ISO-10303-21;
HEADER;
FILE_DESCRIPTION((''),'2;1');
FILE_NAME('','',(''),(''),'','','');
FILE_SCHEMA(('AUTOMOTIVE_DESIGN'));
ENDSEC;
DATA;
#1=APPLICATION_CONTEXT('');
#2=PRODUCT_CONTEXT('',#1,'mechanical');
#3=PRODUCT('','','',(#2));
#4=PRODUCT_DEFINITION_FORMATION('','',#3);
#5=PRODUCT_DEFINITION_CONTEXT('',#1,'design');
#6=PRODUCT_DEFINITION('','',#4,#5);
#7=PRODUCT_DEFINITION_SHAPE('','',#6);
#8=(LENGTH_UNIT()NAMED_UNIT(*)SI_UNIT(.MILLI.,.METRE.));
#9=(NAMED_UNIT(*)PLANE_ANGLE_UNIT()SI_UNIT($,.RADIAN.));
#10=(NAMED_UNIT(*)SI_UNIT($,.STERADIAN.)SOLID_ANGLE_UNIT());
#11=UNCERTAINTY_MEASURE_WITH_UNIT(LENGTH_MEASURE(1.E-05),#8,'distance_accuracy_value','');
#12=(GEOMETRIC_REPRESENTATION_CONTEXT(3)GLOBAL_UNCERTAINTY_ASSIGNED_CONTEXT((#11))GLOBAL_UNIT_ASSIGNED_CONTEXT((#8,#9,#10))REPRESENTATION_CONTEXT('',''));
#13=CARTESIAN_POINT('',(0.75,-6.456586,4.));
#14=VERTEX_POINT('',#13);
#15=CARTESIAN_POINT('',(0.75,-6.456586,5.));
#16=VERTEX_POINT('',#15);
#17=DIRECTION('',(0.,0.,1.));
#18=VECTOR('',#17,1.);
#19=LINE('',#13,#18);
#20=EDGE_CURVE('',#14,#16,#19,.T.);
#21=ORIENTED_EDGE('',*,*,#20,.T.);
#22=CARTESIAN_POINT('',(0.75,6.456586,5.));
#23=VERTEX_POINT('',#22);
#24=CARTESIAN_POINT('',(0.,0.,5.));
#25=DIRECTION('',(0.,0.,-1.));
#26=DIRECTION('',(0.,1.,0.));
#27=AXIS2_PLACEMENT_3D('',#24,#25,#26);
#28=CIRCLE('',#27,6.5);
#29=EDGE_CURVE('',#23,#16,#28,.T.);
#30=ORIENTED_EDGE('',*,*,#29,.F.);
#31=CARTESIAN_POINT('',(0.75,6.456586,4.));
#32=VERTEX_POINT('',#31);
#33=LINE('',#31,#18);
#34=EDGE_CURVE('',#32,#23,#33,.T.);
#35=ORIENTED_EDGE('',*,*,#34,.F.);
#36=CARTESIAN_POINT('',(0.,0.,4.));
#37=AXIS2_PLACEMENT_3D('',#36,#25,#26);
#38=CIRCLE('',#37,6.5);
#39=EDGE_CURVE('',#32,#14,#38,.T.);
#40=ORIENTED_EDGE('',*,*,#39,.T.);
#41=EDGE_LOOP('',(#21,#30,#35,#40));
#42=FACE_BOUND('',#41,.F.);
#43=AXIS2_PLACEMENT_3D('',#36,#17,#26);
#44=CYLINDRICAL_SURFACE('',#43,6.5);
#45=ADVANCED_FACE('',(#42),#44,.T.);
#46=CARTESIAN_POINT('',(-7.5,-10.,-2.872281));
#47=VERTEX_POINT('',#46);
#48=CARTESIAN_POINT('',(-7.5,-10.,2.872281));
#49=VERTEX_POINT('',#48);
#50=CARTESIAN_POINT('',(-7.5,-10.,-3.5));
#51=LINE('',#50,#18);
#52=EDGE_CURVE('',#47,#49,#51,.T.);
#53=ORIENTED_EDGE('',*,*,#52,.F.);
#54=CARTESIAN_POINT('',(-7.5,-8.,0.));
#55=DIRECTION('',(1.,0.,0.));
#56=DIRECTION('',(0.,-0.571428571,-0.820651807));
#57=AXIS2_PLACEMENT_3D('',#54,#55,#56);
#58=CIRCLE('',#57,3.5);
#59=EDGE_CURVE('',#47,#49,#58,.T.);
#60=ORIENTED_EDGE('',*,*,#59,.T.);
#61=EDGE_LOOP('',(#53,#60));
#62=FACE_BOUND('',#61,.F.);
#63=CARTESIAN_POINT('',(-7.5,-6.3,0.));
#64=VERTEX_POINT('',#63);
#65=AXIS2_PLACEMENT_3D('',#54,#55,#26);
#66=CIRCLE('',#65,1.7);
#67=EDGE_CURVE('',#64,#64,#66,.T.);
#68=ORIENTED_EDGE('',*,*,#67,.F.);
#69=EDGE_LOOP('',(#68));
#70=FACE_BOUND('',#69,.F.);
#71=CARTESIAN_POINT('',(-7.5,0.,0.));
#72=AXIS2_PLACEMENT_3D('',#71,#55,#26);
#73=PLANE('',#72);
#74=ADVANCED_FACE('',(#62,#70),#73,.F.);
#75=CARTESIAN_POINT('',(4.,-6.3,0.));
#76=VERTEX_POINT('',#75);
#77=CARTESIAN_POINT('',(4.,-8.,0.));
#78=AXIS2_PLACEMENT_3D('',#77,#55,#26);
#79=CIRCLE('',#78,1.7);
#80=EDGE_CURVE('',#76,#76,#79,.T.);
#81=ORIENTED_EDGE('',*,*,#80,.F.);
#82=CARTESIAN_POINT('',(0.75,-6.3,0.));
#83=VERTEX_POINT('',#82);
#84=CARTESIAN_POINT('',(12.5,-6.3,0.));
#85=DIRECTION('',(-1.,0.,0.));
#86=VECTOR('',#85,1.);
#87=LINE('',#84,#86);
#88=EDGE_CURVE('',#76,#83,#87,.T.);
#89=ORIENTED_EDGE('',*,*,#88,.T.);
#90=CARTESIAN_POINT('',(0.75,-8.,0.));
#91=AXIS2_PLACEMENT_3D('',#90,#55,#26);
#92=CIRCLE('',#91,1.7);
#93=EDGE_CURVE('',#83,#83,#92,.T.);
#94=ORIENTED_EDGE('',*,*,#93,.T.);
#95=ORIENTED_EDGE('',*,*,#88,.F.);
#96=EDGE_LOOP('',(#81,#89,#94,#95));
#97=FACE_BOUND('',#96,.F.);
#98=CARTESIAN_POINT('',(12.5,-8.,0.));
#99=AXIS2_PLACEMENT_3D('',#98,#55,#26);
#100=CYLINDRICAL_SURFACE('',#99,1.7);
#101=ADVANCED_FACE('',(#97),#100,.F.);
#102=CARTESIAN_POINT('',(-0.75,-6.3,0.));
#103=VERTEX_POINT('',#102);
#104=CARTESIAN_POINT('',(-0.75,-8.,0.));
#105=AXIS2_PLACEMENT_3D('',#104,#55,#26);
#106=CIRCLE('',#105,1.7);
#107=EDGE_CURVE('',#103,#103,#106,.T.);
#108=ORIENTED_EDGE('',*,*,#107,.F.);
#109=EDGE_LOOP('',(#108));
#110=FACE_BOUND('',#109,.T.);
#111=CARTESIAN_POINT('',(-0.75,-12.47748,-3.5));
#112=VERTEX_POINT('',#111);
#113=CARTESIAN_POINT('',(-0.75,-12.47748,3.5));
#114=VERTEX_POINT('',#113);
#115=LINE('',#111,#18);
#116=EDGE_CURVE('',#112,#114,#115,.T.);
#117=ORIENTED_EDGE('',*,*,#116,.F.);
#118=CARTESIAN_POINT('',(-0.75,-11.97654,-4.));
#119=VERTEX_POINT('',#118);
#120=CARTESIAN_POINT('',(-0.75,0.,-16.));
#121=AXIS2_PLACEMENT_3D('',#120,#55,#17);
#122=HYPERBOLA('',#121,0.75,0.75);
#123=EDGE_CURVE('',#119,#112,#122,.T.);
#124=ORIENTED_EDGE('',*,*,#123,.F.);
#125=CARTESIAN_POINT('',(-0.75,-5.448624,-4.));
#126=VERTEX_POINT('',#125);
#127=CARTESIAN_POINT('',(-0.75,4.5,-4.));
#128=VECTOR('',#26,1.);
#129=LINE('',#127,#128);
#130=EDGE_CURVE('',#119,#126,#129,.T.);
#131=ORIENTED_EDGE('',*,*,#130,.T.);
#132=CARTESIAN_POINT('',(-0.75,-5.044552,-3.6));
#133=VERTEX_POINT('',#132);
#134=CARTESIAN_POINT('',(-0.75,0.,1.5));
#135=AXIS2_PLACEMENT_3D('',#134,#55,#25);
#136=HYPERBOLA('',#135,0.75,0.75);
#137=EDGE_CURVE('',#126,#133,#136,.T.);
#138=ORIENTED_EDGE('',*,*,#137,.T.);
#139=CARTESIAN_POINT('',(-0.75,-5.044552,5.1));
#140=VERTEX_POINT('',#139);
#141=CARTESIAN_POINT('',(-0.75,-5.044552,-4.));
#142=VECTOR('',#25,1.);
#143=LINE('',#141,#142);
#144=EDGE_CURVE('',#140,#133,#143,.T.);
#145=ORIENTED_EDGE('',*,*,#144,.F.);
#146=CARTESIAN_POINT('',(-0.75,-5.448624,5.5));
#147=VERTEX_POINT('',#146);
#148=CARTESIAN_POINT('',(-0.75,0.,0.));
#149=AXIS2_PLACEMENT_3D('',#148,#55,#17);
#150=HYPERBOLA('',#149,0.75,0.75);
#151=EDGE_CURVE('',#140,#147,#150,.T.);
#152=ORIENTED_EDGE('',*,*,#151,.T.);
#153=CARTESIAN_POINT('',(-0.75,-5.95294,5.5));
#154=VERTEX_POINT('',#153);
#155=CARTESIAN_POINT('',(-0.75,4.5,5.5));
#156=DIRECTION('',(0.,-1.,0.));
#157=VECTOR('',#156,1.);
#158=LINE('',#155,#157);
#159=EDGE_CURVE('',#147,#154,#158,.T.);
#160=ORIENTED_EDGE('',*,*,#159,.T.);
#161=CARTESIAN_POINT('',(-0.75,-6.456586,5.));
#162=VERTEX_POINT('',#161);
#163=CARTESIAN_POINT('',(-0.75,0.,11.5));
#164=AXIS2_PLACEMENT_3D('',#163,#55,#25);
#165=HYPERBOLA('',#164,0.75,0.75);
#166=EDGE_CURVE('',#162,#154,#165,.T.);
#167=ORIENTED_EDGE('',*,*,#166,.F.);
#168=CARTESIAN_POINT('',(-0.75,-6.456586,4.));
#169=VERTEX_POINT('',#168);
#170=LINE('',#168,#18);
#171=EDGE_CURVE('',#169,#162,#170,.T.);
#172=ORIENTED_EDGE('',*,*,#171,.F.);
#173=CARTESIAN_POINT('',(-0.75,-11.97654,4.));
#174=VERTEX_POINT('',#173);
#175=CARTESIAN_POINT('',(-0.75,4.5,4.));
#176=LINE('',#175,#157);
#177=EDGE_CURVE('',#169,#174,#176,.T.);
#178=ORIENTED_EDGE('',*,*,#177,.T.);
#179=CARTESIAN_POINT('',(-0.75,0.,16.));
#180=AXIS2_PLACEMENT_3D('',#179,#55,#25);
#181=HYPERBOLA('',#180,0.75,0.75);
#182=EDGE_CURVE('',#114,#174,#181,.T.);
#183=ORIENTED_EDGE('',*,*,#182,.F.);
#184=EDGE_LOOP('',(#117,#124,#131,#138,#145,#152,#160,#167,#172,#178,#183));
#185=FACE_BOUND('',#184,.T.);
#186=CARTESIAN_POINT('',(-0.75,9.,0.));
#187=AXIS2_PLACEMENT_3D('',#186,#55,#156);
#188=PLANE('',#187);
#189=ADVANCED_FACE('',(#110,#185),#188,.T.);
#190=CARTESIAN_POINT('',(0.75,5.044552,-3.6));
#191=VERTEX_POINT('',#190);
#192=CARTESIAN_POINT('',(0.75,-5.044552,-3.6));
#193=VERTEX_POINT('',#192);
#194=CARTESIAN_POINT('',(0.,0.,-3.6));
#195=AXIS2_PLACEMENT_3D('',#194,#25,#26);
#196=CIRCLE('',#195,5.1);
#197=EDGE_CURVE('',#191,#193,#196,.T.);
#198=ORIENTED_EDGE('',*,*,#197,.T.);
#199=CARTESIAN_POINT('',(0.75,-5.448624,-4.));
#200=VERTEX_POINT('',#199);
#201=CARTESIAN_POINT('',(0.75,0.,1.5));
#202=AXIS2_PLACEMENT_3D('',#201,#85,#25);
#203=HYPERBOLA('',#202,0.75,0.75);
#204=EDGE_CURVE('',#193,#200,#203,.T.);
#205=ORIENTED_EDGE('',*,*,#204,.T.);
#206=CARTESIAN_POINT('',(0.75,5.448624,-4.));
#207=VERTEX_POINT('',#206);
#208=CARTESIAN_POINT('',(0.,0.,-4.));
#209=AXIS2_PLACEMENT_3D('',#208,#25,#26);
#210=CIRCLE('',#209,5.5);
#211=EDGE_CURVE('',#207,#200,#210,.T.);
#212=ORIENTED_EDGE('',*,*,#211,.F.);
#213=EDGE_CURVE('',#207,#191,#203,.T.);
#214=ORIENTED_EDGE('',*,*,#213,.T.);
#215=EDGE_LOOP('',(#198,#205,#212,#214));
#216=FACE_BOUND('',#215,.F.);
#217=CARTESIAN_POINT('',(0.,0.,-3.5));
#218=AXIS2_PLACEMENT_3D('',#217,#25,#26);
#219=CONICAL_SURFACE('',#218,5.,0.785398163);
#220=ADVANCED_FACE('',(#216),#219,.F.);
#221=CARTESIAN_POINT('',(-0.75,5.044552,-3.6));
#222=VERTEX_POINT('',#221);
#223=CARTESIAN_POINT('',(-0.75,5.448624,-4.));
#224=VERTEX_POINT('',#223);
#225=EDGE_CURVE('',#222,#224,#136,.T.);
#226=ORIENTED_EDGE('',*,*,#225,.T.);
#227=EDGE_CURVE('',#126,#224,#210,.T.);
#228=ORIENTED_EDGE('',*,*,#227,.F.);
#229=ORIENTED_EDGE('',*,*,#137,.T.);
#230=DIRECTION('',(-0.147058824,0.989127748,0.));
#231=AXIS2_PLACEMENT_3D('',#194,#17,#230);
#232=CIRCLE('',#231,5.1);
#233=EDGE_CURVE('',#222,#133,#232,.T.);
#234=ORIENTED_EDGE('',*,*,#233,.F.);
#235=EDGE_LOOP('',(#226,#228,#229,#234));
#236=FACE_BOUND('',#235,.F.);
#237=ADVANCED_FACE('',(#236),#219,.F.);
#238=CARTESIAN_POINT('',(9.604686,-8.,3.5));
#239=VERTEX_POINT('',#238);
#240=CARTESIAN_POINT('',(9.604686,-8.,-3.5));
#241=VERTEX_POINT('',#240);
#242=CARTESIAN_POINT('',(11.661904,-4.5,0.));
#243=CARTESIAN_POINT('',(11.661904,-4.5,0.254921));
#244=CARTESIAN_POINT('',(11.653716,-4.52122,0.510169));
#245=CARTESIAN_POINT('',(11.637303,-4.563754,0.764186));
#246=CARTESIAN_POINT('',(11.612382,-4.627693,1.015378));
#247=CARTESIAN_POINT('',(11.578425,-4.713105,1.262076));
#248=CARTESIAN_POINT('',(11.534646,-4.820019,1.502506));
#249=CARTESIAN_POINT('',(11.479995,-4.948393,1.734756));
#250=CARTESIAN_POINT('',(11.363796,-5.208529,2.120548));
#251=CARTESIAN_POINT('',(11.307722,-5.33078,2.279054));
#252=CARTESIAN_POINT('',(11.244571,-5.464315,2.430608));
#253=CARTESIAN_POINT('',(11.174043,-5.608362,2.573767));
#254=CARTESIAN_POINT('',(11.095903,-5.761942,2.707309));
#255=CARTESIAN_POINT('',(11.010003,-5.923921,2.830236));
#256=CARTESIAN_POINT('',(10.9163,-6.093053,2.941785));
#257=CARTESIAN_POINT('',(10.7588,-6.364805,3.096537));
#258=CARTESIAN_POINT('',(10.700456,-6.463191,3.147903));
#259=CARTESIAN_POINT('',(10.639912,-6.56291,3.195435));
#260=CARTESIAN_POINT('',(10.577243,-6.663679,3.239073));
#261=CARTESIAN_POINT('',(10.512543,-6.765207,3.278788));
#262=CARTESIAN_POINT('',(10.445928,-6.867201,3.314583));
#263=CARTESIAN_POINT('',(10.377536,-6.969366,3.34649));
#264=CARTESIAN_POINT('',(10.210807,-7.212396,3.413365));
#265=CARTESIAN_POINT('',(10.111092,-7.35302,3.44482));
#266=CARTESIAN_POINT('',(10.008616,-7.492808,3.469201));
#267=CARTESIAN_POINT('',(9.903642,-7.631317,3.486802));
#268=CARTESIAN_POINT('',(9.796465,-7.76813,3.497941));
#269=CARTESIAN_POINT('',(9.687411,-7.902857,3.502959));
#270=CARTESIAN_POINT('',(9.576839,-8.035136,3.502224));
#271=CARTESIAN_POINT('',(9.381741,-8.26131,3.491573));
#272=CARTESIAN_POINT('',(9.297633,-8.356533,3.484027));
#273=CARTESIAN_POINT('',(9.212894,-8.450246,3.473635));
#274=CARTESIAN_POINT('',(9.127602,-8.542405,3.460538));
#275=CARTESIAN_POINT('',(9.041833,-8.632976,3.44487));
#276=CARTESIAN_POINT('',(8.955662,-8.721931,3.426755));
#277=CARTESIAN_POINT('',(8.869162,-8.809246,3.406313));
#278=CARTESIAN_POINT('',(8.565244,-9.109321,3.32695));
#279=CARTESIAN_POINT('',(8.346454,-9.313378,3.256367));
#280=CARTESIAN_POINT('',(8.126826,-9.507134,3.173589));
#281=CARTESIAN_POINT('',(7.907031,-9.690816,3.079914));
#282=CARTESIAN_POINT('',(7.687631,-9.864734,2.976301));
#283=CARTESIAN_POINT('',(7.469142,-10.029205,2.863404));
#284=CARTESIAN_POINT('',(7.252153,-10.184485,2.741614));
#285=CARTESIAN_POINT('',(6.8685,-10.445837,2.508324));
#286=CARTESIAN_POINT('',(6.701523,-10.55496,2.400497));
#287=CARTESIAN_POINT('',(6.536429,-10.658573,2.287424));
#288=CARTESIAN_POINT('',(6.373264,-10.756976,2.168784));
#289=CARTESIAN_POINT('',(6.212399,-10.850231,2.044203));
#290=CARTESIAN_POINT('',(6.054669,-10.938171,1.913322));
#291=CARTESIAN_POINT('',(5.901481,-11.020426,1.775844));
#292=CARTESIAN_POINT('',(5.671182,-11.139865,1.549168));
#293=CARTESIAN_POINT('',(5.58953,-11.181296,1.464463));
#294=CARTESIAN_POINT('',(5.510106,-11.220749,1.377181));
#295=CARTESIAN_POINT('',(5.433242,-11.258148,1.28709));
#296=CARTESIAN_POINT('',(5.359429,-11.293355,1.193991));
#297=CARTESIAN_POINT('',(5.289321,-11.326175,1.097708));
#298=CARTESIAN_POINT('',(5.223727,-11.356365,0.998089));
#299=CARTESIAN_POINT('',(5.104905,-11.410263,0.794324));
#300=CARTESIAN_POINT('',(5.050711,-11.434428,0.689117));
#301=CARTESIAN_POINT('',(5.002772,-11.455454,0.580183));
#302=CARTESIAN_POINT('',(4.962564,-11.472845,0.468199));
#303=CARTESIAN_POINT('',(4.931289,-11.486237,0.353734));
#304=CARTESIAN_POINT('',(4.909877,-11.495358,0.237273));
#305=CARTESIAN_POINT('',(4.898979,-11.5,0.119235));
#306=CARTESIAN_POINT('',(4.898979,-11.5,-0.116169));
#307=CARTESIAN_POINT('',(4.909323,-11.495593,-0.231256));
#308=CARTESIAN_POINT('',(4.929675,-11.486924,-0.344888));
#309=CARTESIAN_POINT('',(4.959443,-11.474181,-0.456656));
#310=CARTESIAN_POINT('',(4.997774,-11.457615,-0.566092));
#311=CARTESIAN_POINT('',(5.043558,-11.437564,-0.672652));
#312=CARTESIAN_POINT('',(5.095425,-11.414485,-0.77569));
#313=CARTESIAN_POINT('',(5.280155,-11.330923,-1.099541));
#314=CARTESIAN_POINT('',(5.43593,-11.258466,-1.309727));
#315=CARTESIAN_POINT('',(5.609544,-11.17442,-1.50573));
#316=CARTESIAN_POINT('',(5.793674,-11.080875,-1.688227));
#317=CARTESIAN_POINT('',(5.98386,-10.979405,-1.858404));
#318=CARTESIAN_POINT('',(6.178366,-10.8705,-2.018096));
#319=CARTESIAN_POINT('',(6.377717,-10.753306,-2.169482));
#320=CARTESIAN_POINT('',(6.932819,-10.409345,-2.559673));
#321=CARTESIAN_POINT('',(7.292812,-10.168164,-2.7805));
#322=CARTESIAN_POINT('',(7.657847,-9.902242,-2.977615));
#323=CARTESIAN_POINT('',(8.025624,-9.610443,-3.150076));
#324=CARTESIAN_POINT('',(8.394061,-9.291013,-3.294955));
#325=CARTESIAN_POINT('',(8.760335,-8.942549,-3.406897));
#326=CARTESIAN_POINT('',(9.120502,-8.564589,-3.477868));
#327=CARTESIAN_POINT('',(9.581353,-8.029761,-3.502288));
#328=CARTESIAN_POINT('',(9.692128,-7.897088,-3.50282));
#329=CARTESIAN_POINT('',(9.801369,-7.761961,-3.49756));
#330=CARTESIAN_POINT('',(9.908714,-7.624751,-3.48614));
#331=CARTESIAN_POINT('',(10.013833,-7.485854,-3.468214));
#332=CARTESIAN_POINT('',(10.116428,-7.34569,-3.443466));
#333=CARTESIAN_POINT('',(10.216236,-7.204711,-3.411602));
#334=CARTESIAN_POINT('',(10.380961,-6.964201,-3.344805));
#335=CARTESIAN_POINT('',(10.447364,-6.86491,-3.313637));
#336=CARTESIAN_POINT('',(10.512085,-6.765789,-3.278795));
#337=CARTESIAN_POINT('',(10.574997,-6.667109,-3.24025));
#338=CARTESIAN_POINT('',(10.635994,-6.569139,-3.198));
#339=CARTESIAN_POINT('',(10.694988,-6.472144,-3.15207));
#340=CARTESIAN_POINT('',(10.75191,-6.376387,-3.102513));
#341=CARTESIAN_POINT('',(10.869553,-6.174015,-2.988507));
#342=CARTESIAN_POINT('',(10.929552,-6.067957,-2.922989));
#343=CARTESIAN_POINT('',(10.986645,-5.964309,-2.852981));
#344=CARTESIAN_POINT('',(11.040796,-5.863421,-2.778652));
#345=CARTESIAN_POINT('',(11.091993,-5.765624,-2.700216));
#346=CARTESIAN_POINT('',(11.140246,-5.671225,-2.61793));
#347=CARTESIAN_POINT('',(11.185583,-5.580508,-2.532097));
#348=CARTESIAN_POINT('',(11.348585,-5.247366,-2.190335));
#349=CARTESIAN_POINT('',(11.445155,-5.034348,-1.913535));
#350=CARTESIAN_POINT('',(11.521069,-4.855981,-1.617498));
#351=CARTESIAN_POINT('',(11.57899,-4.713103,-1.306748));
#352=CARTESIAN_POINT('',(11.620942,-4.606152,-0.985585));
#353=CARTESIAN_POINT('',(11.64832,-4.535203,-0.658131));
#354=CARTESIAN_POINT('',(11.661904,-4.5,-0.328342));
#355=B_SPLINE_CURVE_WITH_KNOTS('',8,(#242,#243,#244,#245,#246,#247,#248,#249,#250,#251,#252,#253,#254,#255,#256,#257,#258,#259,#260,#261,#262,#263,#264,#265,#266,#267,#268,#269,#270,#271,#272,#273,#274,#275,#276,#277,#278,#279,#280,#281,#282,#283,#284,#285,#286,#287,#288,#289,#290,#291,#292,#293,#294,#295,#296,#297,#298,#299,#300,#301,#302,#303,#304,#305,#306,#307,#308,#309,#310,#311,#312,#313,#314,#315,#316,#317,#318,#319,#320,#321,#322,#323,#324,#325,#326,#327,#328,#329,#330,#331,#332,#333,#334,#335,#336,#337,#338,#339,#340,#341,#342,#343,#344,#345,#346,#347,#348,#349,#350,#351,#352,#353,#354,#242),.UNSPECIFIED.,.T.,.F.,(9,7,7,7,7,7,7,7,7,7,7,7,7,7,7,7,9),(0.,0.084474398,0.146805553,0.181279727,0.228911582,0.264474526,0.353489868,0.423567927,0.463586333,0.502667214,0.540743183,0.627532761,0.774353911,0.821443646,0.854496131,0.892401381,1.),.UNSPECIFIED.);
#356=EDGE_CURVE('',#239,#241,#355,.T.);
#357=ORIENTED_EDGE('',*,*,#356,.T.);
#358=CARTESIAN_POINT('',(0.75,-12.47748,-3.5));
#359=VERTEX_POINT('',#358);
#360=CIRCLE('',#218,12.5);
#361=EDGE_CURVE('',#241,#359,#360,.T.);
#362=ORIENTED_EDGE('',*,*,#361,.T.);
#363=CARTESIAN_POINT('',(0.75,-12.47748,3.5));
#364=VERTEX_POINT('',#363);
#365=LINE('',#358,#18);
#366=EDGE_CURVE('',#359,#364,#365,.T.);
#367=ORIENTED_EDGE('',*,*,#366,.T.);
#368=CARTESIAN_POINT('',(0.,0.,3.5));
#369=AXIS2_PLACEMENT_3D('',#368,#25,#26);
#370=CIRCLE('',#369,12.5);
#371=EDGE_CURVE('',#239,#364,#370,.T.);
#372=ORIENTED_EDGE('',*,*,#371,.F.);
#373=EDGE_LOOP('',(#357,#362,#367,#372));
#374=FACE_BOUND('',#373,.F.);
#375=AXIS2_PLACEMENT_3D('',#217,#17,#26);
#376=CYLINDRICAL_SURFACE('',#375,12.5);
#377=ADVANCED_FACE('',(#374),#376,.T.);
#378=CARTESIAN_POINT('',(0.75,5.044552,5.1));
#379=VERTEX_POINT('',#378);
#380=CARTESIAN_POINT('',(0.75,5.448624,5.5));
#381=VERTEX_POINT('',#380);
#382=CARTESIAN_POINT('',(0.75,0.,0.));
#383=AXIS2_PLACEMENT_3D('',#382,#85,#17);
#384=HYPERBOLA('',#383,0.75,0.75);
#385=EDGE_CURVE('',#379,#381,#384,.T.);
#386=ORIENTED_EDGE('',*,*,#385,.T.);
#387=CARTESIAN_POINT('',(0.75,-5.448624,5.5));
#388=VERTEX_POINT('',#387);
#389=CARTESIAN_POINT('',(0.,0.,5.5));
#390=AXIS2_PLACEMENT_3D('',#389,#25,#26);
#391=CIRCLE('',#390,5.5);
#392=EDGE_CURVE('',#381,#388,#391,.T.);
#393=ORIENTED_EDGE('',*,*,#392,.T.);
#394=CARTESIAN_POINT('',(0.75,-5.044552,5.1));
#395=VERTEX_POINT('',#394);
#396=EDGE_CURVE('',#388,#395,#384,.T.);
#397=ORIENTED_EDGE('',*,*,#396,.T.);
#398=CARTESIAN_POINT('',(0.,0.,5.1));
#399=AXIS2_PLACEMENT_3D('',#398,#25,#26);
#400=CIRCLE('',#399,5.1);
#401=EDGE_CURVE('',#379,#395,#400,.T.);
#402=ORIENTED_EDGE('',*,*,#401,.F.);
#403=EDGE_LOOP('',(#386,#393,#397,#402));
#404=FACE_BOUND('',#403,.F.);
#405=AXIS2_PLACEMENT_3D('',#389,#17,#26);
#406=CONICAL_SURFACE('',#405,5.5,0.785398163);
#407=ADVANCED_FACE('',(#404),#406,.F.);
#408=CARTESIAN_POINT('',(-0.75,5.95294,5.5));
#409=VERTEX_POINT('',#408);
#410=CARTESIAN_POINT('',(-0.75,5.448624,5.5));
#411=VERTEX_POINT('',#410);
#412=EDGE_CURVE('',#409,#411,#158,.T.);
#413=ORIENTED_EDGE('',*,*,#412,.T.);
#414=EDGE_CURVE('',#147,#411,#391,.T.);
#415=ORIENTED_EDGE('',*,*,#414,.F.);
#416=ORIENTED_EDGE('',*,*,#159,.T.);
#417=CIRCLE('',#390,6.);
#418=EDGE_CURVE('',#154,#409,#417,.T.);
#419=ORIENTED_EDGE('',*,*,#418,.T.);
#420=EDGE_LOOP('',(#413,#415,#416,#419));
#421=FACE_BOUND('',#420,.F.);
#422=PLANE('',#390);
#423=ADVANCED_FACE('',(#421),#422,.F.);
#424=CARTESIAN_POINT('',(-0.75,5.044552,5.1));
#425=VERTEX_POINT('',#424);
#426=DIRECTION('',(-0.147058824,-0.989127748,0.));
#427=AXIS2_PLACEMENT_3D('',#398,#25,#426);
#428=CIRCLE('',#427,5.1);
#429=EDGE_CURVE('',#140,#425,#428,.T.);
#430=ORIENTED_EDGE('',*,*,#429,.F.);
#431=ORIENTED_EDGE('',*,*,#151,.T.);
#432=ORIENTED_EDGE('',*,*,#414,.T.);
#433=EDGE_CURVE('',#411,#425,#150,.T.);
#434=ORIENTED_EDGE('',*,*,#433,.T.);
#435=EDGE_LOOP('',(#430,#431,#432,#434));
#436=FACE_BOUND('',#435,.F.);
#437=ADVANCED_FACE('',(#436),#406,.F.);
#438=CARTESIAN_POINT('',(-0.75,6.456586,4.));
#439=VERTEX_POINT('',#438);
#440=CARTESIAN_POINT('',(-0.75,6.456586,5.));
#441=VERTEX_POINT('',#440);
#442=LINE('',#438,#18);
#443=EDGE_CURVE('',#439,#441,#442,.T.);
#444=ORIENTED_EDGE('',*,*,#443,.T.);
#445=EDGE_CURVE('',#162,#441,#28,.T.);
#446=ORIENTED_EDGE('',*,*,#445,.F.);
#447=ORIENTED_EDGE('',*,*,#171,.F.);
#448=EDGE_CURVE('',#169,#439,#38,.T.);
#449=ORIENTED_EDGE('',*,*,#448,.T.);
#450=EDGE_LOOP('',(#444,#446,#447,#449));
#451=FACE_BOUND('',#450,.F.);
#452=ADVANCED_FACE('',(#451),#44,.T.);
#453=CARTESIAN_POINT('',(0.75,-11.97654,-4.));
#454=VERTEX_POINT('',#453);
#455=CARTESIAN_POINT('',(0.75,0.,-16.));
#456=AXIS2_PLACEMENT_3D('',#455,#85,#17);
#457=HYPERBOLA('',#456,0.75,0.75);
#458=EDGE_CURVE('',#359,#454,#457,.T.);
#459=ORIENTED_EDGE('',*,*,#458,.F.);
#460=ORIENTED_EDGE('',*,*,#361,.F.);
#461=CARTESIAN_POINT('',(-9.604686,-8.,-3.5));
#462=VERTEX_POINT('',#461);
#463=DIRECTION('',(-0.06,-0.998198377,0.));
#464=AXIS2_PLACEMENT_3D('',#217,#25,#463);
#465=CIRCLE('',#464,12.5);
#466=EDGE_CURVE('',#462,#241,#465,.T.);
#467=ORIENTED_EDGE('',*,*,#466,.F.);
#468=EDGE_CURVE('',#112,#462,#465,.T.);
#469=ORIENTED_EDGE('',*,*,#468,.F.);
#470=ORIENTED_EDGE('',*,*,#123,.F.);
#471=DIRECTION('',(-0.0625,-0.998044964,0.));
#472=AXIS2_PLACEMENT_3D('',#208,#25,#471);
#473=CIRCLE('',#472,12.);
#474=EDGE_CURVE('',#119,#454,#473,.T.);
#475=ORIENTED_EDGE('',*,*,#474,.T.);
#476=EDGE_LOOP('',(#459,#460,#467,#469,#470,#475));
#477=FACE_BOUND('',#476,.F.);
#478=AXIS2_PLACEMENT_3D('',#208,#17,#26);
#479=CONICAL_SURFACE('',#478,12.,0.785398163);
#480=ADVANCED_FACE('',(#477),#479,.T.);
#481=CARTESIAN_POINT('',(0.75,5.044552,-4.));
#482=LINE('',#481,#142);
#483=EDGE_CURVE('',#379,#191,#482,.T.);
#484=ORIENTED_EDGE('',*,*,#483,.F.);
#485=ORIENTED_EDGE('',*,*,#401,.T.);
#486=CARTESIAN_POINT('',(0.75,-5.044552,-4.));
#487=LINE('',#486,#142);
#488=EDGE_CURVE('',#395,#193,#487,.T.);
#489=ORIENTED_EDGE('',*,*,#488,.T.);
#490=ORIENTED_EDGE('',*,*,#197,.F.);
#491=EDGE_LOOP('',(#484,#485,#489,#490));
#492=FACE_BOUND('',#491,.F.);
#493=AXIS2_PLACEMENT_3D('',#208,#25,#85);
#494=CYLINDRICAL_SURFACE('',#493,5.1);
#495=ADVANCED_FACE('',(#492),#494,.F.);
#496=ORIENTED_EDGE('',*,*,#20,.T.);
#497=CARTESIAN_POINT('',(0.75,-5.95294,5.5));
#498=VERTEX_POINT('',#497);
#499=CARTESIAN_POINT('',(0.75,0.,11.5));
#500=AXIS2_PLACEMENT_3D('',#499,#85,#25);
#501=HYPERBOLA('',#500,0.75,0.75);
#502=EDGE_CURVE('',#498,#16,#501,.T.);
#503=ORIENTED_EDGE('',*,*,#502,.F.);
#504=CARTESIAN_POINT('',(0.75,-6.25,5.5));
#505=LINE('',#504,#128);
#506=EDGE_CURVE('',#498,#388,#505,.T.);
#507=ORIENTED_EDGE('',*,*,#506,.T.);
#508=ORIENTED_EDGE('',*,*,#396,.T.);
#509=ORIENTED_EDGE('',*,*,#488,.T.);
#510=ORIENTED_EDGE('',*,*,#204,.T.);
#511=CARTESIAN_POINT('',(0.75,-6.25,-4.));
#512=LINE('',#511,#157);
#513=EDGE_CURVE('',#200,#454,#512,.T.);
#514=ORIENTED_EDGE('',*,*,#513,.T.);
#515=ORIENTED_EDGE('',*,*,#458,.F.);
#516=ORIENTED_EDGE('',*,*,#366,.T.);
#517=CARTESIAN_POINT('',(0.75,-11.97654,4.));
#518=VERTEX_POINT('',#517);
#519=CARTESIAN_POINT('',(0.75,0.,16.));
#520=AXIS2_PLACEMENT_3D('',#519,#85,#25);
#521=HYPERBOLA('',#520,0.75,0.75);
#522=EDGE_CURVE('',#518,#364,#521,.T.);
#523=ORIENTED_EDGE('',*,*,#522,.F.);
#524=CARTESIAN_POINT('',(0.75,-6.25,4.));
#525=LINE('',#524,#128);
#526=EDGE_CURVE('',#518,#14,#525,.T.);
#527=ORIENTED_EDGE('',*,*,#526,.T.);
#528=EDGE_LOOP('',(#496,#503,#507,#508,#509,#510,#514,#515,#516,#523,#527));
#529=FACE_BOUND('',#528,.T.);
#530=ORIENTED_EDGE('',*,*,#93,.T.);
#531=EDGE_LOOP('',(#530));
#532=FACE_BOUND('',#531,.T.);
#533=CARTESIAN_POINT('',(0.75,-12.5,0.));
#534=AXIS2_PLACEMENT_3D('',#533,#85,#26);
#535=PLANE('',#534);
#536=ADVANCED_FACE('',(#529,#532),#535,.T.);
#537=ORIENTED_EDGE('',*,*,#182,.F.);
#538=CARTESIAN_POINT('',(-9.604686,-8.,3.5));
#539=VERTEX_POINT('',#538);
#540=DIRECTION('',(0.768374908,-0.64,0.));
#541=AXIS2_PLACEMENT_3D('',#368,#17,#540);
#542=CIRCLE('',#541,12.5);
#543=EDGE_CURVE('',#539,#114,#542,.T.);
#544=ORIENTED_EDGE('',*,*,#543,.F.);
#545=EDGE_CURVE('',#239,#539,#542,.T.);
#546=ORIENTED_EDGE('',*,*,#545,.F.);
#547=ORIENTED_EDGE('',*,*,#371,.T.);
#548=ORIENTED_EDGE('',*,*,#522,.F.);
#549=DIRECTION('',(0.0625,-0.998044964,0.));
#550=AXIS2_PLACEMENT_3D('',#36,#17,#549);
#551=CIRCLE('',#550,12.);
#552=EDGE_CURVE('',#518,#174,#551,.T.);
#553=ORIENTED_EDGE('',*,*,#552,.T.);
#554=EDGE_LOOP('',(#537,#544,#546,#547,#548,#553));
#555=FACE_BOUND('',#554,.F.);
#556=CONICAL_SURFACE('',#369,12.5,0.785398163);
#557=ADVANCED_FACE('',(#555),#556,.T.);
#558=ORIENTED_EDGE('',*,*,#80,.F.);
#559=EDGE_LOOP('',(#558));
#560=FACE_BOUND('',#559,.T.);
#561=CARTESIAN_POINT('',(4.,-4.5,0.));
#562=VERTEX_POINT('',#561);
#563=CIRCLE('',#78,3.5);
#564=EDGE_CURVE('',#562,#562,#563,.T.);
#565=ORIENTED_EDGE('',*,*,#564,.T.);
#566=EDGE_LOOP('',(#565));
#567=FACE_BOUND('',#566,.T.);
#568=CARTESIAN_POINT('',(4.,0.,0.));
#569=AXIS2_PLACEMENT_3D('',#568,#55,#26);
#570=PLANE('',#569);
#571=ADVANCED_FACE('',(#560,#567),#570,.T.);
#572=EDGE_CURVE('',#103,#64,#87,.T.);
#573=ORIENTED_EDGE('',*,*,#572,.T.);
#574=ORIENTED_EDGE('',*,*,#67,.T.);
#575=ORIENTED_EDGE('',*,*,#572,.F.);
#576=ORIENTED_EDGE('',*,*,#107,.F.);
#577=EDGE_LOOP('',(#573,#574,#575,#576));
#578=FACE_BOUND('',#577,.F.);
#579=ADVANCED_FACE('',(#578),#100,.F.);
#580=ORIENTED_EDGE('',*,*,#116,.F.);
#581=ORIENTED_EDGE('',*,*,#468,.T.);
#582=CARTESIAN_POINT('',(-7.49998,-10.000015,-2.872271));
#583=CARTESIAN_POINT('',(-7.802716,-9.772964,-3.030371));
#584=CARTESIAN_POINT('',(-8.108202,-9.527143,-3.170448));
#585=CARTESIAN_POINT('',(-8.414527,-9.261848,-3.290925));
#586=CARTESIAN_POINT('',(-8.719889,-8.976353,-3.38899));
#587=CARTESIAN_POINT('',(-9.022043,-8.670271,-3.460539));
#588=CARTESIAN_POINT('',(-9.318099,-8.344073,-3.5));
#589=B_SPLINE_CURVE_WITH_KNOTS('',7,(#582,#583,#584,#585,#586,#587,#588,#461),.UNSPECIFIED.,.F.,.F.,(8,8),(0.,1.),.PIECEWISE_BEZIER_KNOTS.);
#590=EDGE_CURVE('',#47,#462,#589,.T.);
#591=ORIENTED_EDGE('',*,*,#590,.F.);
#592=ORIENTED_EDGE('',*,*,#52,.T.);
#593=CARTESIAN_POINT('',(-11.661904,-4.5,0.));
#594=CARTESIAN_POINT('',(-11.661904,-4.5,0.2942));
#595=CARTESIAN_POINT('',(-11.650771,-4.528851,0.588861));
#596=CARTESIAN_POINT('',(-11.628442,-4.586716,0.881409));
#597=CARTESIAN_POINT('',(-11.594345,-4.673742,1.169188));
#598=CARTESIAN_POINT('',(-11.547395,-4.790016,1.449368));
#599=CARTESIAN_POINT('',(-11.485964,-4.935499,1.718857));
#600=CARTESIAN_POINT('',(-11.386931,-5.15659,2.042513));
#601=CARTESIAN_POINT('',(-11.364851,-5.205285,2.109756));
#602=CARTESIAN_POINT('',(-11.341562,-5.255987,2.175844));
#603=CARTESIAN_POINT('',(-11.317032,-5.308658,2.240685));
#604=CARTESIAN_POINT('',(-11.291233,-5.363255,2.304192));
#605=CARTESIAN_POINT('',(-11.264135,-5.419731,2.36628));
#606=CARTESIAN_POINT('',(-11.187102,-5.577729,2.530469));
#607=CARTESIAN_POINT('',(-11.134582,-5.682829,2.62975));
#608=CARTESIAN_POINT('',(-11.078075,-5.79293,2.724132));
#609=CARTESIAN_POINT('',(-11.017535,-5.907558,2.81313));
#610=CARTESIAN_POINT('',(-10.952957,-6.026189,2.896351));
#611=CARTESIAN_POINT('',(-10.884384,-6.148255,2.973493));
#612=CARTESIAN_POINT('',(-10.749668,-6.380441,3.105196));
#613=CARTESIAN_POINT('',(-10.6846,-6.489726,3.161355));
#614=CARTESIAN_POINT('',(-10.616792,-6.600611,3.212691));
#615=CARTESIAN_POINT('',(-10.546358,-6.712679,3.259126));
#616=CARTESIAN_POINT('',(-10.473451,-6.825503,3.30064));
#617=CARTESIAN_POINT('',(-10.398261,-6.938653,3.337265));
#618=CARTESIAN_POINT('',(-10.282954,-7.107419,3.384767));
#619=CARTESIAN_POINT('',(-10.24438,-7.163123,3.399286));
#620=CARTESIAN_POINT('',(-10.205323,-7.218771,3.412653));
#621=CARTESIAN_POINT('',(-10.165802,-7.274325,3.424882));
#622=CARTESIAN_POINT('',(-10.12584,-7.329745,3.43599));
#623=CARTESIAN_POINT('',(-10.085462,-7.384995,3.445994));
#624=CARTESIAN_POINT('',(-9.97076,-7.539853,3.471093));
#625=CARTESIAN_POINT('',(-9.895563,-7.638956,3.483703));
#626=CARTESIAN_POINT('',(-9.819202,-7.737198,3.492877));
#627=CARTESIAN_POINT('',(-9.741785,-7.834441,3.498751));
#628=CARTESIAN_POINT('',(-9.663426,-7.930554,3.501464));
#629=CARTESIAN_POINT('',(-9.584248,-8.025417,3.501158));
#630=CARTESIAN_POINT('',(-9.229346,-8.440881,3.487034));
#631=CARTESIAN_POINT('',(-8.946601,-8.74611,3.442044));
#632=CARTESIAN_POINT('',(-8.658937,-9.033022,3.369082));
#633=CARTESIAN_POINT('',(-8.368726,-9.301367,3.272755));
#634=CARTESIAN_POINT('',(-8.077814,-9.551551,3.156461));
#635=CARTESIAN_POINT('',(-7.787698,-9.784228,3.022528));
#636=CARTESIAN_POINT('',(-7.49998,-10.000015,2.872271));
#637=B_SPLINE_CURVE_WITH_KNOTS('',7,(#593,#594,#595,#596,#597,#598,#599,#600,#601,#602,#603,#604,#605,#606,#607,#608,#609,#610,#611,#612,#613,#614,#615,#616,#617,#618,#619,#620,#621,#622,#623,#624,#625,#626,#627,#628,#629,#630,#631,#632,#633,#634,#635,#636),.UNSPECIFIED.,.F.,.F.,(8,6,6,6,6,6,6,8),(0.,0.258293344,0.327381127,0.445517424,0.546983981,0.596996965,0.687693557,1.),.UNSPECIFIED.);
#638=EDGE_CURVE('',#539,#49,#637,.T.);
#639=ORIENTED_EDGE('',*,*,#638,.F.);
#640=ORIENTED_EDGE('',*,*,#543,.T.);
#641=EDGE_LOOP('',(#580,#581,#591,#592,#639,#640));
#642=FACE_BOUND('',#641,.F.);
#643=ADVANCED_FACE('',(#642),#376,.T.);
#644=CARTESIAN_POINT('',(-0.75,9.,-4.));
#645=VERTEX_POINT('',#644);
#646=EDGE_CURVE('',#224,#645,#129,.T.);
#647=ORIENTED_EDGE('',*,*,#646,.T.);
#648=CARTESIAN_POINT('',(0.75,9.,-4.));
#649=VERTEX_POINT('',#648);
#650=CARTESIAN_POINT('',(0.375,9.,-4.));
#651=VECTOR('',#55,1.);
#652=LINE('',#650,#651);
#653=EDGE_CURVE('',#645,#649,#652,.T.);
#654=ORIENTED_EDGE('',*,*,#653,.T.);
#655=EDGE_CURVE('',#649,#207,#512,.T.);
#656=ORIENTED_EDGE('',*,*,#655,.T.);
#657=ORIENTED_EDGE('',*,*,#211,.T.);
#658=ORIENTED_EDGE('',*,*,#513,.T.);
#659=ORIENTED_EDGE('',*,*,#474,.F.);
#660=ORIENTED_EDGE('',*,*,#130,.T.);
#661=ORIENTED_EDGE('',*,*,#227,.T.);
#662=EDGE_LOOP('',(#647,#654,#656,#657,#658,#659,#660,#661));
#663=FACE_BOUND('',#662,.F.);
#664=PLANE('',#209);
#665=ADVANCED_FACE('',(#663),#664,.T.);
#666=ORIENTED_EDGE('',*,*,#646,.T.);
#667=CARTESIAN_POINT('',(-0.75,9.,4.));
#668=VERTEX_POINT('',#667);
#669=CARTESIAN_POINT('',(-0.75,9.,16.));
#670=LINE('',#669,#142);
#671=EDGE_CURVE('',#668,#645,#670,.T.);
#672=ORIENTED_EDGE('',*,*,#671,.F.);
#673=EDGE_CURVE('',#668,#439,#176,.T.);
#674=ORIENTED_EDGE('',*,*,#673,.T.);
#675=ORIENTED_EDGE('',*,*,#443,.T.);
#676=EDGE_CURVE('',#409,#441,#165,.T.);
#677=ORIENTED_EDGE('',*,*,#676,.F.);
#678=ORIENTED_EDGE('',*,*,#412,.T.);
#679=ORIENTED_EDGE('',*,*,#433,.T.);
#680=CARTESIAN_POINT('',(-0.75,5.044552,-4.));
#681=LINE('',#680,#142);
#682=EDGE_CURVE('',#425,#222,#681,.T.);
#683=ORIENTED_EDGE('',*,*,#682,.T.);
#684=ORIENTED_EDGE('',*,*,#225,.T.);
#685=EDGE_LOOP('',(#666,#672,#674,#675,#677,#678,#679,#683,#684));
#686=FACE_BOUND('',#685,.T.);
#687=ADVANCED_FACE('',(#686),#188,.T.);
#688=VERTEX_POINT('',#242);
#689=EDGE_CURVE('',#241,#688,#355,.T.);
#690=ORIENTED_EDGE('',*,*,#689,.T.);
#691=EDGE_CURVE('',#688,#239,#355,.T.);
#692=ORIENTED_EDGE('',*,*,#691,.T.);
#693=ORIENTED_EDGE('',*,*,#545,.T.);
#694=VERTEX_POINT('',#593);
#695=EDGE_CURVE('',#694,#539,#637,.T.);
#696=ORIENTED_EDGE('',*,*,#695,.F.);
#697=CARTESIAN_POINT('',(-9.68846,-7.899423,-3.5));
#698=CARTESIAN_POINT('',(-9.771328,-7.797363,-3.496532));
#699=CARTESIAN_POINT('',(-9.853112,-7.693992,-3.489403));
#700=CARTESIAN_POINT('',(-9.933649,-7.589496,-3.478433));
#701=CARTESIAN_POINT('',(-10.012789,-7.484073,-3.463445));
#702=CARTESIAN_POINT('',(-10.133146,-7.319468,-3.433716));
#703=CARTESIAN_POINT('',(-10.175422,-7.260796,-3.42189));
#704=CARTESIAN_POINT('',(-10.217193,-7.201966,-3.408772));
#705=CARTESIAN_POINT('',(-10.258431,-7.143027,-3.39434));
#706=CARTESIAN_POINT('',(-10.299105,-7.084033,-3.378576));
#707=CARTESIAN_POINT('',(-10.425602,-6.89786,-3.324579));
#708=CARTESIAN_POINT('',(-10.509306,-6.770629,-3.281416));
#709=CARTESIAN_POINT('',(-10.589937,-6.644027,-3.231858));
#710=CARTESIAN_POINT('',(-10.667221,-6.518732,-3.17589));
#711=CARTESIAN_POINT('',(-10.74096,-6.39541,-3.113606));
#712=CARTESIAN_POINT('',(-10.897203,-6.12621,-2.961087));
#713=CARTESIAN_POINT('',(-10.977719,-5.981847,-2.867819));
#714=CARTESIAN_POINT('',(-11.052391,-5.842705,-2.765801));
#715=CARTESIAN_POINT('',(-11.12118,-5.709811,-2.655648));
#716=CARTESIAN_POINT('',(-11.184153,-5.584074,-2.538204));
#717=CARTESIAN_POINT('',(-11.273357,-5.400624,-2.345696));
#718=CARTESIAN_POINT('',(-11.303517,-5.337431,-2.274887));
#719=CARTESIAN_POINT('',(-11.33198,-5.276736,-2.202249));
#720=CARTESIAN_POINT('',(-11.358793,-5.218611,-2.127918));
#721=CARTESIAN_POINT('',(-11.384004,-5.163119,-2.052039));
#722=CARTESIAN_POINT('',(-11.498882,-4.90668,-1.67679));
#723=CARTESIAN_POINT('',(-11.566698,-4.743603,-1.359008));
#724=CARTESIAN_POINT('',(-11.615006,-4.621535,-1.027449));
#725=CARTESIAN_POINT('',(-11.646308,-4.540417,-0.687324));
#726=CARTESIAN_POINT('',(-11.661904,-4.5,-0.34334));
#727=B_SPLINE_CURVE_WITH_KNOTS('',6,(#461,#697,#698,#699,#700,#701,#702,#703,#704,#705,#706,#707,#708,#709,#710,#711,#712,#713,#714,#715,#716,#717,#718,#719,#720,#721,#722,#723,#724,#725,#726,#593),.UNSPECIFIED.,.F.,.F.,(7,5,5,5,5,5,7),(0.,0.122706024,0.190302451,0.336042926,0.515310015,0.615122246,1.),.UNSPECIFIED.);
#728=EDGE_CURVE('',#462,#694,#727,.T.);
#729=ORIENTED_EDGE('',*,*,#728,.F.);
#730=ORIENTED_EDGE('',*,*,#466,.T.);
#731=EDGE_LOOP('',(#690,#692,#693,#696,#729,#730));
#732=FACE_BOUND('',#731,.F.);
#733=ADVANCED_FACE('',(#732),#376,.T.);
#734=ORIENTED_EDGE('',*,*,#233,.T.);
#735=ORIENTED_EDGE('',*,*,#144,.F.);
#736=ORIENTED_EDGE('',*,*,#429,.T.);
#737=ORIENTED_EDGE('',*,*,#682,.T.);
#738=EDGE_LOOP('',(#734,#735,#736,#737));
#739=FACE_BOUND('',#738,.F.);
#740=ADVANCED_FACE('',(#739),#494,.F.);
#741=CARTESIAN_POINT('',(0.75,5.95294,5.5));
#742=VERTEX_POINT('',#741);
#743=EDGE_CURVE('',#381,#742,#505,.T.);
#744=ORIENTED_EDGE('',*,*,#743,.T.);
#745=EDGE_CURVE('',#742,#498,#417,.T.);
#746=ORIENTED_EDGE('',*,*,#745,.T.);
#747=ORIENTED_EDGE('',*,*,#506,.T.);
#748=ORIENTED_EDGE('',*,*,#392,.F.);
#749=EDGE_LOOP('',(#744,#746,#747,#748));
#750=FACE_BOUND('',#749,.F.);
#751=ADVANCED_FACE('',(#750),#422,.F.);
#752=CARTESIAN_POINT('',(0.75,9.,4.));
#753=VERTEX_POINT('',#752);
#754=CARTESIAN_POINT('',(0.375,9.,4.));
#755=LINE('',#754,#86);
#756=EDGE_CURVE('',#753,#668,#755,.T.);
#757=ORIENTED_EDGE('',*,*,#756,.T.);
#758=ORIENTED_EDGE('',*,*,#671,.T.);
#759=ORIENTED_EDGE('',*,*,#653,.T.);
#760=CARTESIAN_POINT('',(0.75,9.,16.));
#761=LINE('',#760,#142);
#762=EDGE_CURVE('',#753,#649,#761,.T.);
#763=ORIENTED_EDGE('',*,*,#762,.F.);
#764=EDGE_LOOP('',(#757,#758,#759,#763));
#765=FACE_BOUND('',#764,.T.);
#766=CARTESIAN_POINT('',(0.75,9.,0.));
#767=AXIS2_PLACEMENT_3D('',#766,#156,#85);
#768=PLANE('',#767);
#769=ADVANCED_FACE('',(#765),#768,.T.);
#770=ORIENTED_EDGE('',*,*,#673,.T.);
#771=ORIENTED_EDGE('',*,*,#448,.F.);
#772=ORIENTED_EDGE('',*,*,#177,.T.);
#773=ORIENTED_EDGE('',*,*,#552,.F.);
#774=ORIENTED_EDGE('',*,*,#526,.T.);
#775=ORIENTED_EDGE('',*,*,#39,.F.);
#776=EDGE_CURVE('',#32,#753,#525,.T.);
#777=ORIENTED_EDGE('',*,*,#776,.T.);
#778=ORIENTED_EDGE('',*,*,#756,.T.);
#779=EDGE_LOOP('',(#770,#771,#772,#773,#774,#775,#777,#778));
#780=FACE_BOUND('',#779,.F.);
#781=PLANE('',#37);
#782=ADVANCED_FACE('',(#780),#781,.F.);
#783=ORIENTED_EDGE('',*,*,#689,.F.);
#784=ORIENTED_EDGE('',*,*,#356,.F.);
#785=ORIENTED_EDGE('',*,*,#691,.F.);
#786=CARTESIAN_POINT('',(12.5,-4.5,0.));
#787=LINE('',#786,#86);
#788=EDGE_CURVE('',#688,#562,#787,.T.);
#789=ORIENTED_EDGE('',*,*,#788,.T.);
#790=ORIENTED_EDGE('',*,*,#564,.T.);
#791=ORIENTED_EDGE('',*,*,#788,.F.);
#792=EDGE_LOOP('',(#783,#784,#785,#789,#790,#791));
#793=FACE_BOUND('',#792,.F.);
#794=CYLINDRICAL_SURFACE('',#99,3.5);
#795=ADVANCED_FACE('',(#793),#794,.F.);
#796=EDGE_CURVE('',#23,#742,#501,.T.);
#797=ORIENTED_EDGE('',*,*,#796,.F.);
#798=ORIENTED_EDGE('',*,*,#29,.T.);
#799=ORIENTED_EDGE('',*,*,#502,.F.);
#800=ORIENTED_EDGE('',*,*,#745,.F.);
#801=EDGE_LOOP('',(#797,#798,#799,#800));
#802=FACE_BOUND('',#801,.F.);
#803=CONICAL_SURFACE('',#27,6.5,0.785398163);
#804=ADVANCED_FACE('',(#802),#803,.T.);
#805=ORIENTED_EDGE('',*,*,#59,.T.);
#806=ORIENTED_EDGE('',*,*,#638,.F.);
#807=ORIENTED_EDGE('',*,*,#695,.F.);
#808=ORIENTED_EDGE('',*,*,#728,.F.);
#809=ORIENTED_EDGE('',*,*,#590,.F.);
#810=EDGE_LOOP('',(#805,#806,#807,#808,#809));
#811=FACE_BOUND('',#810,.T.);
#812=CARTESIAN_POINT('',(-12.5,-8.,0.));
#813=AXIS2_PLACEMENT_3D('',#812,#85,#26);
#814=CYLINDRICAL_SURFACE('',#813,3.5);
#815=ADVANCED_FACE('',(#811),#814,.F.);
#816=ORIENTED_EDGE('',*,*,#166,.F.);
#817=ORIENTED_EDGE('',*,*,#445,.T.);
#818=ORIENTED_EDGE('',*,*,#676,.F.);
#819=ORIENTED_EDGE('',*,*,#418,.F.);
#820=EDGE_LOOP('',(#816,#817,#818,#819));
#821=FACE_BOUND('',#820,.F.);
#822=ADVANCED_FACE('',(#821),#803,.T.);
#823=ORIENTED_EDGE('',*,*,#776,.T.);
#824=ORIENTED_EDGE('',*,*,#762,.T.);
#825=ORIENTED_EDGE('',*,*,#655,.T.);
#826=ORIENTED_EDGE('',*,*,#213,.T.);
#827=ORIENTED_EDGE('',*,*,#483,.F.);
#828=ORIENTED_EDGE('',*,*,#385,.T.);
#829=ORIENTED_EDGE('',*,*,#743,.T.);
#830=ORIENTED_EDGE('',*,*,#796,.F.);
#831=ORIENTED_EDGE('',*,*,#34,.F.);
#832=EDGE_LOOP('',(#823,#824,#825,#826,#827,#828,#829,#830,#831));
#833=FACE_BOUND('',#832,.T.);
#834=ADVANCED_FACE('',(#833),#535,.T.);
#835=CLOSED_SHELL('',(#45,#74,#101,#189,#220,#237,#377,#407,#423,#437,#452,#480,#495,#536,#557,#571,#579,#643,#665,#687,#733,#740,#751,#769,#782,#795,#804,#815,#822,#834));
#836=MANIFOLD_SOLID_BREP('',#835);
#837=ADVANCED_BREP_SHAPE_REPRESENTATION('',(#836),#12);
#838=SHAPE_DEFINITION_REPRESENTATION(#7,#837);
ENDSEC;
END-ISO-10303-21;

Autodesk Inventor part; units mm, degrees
sketch "Sketch_1" plane through (0, 0, 0) normal (1, 0, 0) x (0, 1, 0)
  line L0 (0, -4) -> (0, 5.5)
  line L1 (6, 5.5) -> (5.5, 5.5)
  line L2 (5.5, 5.5) -> (5, 5)
  line L3 (5, 5) -> (5, -3.5)
  line L4 (5, -3.5) -> (5.5, -4)
  line L5 (5.5, -4) -> (12, -4)
  line L6 (12, -4) -> (12.5, -3.5)
  line L7 (12.5, -3.5) -> (12.5, 3.5)
  line L8 (12.5, 3.5) -> (12, 4)
  line L9 (12, 4) -> (6.5, 4)
  line L10 (6.5, 4) -> (6.5, 5)
  line L11 (6.5, 5) -> (6, 5.5)
revolve "Revolution1" add sketch "Sketch_1" angle 360 about axis through (0, 0, -4) along (0, 0, -1)
sketch "Sketch_2" plane through (0, 0, 0) normal (0, 0, 1) x (1, 0, 0)
  line L0 (-0.75, -12.5) -> (0.75, -12.5)
  line L1 (0.75, -12.5) -> (0.75, 9)
  line L2 (0.75, 9) -> (-0.75, 9)
  line L3 (-0.75, 9) -> (-0.75, -12.5)
extrude "Extrusion1" cut sketch "Sketch_2" along normal mid plane 32
sketch "Sketch_3" plane through (0, 0, 0) normal (0, 0, 1) x (1, 0, 0)
  line L0 (0, -8) -> (12.5, -8)
  line L1 (12.5, -8) -> (12.5, -11)
  line L2 (12.5, -11) -> (4, -11)
  line L3 (4, -11) -> (4, -9.75)
  line L4 (4, -9.75) -> (0, -9.75)
  line L5 (0, -9.75) -> (0, -8)
  line L6 (0, -8) -> (12.5, -8)
ref_plane "body_screw_XY" through (4, -8, 0) normal (1, 0, 0) x (0, 0, -1)
ref_plane "body_screw_YZ" through (4, -8, 0) normal (0, 0, -1) x (0, 1, 0)
ref_plane "body_screw_ZX" through (4, -8, 0) normal (0, 1, 0) x (1, 0, 0)
sketch "スケッチ5" plane through (0, 0, -4) normal (0, 0, -1) x (-1, 0, 0)
  circle A0 centre (0, 0) radius 5.1
  dimension "d12" = 10.2
extrude "押し出し2" cut sketch "スケッチ5" against normal through all
ref_plane "作業平面4" through (12.5, 0, 0) normal (1, 0, 0) x (0, 1, 0)
sketch "スケッチ6" plane through (12.5, 0, 0) normal (1, 0, 0) x (0, 1, 0)
  circle A0 centre (-8, 0) radius 1.75 projected
  circle A1 centre (-8, 0) radius 1.7
  circle A2 centre (-8, 0) radius 3.5
  point P0 (0, 0)
  dimension "d15" = 3.4
  dimension "d16" = 7
extrude "押し出し3" cut sketch "スケッチ6" against normal through all contours A1
extrude "押し出し4" cut sketch "スケッチ6" against normal blind 8.5 contours A0 | A2
ref_plane "作業平面5" through (-12.5, 0, 0) normal (1, 0, 0) x (0, 1, 0)
extrude "押し出し5" cut sketch "スケッチ6" along normal blind 5 from surface at -25 contours A0 | A2
properties part number "PSCBNJ10-13b"
